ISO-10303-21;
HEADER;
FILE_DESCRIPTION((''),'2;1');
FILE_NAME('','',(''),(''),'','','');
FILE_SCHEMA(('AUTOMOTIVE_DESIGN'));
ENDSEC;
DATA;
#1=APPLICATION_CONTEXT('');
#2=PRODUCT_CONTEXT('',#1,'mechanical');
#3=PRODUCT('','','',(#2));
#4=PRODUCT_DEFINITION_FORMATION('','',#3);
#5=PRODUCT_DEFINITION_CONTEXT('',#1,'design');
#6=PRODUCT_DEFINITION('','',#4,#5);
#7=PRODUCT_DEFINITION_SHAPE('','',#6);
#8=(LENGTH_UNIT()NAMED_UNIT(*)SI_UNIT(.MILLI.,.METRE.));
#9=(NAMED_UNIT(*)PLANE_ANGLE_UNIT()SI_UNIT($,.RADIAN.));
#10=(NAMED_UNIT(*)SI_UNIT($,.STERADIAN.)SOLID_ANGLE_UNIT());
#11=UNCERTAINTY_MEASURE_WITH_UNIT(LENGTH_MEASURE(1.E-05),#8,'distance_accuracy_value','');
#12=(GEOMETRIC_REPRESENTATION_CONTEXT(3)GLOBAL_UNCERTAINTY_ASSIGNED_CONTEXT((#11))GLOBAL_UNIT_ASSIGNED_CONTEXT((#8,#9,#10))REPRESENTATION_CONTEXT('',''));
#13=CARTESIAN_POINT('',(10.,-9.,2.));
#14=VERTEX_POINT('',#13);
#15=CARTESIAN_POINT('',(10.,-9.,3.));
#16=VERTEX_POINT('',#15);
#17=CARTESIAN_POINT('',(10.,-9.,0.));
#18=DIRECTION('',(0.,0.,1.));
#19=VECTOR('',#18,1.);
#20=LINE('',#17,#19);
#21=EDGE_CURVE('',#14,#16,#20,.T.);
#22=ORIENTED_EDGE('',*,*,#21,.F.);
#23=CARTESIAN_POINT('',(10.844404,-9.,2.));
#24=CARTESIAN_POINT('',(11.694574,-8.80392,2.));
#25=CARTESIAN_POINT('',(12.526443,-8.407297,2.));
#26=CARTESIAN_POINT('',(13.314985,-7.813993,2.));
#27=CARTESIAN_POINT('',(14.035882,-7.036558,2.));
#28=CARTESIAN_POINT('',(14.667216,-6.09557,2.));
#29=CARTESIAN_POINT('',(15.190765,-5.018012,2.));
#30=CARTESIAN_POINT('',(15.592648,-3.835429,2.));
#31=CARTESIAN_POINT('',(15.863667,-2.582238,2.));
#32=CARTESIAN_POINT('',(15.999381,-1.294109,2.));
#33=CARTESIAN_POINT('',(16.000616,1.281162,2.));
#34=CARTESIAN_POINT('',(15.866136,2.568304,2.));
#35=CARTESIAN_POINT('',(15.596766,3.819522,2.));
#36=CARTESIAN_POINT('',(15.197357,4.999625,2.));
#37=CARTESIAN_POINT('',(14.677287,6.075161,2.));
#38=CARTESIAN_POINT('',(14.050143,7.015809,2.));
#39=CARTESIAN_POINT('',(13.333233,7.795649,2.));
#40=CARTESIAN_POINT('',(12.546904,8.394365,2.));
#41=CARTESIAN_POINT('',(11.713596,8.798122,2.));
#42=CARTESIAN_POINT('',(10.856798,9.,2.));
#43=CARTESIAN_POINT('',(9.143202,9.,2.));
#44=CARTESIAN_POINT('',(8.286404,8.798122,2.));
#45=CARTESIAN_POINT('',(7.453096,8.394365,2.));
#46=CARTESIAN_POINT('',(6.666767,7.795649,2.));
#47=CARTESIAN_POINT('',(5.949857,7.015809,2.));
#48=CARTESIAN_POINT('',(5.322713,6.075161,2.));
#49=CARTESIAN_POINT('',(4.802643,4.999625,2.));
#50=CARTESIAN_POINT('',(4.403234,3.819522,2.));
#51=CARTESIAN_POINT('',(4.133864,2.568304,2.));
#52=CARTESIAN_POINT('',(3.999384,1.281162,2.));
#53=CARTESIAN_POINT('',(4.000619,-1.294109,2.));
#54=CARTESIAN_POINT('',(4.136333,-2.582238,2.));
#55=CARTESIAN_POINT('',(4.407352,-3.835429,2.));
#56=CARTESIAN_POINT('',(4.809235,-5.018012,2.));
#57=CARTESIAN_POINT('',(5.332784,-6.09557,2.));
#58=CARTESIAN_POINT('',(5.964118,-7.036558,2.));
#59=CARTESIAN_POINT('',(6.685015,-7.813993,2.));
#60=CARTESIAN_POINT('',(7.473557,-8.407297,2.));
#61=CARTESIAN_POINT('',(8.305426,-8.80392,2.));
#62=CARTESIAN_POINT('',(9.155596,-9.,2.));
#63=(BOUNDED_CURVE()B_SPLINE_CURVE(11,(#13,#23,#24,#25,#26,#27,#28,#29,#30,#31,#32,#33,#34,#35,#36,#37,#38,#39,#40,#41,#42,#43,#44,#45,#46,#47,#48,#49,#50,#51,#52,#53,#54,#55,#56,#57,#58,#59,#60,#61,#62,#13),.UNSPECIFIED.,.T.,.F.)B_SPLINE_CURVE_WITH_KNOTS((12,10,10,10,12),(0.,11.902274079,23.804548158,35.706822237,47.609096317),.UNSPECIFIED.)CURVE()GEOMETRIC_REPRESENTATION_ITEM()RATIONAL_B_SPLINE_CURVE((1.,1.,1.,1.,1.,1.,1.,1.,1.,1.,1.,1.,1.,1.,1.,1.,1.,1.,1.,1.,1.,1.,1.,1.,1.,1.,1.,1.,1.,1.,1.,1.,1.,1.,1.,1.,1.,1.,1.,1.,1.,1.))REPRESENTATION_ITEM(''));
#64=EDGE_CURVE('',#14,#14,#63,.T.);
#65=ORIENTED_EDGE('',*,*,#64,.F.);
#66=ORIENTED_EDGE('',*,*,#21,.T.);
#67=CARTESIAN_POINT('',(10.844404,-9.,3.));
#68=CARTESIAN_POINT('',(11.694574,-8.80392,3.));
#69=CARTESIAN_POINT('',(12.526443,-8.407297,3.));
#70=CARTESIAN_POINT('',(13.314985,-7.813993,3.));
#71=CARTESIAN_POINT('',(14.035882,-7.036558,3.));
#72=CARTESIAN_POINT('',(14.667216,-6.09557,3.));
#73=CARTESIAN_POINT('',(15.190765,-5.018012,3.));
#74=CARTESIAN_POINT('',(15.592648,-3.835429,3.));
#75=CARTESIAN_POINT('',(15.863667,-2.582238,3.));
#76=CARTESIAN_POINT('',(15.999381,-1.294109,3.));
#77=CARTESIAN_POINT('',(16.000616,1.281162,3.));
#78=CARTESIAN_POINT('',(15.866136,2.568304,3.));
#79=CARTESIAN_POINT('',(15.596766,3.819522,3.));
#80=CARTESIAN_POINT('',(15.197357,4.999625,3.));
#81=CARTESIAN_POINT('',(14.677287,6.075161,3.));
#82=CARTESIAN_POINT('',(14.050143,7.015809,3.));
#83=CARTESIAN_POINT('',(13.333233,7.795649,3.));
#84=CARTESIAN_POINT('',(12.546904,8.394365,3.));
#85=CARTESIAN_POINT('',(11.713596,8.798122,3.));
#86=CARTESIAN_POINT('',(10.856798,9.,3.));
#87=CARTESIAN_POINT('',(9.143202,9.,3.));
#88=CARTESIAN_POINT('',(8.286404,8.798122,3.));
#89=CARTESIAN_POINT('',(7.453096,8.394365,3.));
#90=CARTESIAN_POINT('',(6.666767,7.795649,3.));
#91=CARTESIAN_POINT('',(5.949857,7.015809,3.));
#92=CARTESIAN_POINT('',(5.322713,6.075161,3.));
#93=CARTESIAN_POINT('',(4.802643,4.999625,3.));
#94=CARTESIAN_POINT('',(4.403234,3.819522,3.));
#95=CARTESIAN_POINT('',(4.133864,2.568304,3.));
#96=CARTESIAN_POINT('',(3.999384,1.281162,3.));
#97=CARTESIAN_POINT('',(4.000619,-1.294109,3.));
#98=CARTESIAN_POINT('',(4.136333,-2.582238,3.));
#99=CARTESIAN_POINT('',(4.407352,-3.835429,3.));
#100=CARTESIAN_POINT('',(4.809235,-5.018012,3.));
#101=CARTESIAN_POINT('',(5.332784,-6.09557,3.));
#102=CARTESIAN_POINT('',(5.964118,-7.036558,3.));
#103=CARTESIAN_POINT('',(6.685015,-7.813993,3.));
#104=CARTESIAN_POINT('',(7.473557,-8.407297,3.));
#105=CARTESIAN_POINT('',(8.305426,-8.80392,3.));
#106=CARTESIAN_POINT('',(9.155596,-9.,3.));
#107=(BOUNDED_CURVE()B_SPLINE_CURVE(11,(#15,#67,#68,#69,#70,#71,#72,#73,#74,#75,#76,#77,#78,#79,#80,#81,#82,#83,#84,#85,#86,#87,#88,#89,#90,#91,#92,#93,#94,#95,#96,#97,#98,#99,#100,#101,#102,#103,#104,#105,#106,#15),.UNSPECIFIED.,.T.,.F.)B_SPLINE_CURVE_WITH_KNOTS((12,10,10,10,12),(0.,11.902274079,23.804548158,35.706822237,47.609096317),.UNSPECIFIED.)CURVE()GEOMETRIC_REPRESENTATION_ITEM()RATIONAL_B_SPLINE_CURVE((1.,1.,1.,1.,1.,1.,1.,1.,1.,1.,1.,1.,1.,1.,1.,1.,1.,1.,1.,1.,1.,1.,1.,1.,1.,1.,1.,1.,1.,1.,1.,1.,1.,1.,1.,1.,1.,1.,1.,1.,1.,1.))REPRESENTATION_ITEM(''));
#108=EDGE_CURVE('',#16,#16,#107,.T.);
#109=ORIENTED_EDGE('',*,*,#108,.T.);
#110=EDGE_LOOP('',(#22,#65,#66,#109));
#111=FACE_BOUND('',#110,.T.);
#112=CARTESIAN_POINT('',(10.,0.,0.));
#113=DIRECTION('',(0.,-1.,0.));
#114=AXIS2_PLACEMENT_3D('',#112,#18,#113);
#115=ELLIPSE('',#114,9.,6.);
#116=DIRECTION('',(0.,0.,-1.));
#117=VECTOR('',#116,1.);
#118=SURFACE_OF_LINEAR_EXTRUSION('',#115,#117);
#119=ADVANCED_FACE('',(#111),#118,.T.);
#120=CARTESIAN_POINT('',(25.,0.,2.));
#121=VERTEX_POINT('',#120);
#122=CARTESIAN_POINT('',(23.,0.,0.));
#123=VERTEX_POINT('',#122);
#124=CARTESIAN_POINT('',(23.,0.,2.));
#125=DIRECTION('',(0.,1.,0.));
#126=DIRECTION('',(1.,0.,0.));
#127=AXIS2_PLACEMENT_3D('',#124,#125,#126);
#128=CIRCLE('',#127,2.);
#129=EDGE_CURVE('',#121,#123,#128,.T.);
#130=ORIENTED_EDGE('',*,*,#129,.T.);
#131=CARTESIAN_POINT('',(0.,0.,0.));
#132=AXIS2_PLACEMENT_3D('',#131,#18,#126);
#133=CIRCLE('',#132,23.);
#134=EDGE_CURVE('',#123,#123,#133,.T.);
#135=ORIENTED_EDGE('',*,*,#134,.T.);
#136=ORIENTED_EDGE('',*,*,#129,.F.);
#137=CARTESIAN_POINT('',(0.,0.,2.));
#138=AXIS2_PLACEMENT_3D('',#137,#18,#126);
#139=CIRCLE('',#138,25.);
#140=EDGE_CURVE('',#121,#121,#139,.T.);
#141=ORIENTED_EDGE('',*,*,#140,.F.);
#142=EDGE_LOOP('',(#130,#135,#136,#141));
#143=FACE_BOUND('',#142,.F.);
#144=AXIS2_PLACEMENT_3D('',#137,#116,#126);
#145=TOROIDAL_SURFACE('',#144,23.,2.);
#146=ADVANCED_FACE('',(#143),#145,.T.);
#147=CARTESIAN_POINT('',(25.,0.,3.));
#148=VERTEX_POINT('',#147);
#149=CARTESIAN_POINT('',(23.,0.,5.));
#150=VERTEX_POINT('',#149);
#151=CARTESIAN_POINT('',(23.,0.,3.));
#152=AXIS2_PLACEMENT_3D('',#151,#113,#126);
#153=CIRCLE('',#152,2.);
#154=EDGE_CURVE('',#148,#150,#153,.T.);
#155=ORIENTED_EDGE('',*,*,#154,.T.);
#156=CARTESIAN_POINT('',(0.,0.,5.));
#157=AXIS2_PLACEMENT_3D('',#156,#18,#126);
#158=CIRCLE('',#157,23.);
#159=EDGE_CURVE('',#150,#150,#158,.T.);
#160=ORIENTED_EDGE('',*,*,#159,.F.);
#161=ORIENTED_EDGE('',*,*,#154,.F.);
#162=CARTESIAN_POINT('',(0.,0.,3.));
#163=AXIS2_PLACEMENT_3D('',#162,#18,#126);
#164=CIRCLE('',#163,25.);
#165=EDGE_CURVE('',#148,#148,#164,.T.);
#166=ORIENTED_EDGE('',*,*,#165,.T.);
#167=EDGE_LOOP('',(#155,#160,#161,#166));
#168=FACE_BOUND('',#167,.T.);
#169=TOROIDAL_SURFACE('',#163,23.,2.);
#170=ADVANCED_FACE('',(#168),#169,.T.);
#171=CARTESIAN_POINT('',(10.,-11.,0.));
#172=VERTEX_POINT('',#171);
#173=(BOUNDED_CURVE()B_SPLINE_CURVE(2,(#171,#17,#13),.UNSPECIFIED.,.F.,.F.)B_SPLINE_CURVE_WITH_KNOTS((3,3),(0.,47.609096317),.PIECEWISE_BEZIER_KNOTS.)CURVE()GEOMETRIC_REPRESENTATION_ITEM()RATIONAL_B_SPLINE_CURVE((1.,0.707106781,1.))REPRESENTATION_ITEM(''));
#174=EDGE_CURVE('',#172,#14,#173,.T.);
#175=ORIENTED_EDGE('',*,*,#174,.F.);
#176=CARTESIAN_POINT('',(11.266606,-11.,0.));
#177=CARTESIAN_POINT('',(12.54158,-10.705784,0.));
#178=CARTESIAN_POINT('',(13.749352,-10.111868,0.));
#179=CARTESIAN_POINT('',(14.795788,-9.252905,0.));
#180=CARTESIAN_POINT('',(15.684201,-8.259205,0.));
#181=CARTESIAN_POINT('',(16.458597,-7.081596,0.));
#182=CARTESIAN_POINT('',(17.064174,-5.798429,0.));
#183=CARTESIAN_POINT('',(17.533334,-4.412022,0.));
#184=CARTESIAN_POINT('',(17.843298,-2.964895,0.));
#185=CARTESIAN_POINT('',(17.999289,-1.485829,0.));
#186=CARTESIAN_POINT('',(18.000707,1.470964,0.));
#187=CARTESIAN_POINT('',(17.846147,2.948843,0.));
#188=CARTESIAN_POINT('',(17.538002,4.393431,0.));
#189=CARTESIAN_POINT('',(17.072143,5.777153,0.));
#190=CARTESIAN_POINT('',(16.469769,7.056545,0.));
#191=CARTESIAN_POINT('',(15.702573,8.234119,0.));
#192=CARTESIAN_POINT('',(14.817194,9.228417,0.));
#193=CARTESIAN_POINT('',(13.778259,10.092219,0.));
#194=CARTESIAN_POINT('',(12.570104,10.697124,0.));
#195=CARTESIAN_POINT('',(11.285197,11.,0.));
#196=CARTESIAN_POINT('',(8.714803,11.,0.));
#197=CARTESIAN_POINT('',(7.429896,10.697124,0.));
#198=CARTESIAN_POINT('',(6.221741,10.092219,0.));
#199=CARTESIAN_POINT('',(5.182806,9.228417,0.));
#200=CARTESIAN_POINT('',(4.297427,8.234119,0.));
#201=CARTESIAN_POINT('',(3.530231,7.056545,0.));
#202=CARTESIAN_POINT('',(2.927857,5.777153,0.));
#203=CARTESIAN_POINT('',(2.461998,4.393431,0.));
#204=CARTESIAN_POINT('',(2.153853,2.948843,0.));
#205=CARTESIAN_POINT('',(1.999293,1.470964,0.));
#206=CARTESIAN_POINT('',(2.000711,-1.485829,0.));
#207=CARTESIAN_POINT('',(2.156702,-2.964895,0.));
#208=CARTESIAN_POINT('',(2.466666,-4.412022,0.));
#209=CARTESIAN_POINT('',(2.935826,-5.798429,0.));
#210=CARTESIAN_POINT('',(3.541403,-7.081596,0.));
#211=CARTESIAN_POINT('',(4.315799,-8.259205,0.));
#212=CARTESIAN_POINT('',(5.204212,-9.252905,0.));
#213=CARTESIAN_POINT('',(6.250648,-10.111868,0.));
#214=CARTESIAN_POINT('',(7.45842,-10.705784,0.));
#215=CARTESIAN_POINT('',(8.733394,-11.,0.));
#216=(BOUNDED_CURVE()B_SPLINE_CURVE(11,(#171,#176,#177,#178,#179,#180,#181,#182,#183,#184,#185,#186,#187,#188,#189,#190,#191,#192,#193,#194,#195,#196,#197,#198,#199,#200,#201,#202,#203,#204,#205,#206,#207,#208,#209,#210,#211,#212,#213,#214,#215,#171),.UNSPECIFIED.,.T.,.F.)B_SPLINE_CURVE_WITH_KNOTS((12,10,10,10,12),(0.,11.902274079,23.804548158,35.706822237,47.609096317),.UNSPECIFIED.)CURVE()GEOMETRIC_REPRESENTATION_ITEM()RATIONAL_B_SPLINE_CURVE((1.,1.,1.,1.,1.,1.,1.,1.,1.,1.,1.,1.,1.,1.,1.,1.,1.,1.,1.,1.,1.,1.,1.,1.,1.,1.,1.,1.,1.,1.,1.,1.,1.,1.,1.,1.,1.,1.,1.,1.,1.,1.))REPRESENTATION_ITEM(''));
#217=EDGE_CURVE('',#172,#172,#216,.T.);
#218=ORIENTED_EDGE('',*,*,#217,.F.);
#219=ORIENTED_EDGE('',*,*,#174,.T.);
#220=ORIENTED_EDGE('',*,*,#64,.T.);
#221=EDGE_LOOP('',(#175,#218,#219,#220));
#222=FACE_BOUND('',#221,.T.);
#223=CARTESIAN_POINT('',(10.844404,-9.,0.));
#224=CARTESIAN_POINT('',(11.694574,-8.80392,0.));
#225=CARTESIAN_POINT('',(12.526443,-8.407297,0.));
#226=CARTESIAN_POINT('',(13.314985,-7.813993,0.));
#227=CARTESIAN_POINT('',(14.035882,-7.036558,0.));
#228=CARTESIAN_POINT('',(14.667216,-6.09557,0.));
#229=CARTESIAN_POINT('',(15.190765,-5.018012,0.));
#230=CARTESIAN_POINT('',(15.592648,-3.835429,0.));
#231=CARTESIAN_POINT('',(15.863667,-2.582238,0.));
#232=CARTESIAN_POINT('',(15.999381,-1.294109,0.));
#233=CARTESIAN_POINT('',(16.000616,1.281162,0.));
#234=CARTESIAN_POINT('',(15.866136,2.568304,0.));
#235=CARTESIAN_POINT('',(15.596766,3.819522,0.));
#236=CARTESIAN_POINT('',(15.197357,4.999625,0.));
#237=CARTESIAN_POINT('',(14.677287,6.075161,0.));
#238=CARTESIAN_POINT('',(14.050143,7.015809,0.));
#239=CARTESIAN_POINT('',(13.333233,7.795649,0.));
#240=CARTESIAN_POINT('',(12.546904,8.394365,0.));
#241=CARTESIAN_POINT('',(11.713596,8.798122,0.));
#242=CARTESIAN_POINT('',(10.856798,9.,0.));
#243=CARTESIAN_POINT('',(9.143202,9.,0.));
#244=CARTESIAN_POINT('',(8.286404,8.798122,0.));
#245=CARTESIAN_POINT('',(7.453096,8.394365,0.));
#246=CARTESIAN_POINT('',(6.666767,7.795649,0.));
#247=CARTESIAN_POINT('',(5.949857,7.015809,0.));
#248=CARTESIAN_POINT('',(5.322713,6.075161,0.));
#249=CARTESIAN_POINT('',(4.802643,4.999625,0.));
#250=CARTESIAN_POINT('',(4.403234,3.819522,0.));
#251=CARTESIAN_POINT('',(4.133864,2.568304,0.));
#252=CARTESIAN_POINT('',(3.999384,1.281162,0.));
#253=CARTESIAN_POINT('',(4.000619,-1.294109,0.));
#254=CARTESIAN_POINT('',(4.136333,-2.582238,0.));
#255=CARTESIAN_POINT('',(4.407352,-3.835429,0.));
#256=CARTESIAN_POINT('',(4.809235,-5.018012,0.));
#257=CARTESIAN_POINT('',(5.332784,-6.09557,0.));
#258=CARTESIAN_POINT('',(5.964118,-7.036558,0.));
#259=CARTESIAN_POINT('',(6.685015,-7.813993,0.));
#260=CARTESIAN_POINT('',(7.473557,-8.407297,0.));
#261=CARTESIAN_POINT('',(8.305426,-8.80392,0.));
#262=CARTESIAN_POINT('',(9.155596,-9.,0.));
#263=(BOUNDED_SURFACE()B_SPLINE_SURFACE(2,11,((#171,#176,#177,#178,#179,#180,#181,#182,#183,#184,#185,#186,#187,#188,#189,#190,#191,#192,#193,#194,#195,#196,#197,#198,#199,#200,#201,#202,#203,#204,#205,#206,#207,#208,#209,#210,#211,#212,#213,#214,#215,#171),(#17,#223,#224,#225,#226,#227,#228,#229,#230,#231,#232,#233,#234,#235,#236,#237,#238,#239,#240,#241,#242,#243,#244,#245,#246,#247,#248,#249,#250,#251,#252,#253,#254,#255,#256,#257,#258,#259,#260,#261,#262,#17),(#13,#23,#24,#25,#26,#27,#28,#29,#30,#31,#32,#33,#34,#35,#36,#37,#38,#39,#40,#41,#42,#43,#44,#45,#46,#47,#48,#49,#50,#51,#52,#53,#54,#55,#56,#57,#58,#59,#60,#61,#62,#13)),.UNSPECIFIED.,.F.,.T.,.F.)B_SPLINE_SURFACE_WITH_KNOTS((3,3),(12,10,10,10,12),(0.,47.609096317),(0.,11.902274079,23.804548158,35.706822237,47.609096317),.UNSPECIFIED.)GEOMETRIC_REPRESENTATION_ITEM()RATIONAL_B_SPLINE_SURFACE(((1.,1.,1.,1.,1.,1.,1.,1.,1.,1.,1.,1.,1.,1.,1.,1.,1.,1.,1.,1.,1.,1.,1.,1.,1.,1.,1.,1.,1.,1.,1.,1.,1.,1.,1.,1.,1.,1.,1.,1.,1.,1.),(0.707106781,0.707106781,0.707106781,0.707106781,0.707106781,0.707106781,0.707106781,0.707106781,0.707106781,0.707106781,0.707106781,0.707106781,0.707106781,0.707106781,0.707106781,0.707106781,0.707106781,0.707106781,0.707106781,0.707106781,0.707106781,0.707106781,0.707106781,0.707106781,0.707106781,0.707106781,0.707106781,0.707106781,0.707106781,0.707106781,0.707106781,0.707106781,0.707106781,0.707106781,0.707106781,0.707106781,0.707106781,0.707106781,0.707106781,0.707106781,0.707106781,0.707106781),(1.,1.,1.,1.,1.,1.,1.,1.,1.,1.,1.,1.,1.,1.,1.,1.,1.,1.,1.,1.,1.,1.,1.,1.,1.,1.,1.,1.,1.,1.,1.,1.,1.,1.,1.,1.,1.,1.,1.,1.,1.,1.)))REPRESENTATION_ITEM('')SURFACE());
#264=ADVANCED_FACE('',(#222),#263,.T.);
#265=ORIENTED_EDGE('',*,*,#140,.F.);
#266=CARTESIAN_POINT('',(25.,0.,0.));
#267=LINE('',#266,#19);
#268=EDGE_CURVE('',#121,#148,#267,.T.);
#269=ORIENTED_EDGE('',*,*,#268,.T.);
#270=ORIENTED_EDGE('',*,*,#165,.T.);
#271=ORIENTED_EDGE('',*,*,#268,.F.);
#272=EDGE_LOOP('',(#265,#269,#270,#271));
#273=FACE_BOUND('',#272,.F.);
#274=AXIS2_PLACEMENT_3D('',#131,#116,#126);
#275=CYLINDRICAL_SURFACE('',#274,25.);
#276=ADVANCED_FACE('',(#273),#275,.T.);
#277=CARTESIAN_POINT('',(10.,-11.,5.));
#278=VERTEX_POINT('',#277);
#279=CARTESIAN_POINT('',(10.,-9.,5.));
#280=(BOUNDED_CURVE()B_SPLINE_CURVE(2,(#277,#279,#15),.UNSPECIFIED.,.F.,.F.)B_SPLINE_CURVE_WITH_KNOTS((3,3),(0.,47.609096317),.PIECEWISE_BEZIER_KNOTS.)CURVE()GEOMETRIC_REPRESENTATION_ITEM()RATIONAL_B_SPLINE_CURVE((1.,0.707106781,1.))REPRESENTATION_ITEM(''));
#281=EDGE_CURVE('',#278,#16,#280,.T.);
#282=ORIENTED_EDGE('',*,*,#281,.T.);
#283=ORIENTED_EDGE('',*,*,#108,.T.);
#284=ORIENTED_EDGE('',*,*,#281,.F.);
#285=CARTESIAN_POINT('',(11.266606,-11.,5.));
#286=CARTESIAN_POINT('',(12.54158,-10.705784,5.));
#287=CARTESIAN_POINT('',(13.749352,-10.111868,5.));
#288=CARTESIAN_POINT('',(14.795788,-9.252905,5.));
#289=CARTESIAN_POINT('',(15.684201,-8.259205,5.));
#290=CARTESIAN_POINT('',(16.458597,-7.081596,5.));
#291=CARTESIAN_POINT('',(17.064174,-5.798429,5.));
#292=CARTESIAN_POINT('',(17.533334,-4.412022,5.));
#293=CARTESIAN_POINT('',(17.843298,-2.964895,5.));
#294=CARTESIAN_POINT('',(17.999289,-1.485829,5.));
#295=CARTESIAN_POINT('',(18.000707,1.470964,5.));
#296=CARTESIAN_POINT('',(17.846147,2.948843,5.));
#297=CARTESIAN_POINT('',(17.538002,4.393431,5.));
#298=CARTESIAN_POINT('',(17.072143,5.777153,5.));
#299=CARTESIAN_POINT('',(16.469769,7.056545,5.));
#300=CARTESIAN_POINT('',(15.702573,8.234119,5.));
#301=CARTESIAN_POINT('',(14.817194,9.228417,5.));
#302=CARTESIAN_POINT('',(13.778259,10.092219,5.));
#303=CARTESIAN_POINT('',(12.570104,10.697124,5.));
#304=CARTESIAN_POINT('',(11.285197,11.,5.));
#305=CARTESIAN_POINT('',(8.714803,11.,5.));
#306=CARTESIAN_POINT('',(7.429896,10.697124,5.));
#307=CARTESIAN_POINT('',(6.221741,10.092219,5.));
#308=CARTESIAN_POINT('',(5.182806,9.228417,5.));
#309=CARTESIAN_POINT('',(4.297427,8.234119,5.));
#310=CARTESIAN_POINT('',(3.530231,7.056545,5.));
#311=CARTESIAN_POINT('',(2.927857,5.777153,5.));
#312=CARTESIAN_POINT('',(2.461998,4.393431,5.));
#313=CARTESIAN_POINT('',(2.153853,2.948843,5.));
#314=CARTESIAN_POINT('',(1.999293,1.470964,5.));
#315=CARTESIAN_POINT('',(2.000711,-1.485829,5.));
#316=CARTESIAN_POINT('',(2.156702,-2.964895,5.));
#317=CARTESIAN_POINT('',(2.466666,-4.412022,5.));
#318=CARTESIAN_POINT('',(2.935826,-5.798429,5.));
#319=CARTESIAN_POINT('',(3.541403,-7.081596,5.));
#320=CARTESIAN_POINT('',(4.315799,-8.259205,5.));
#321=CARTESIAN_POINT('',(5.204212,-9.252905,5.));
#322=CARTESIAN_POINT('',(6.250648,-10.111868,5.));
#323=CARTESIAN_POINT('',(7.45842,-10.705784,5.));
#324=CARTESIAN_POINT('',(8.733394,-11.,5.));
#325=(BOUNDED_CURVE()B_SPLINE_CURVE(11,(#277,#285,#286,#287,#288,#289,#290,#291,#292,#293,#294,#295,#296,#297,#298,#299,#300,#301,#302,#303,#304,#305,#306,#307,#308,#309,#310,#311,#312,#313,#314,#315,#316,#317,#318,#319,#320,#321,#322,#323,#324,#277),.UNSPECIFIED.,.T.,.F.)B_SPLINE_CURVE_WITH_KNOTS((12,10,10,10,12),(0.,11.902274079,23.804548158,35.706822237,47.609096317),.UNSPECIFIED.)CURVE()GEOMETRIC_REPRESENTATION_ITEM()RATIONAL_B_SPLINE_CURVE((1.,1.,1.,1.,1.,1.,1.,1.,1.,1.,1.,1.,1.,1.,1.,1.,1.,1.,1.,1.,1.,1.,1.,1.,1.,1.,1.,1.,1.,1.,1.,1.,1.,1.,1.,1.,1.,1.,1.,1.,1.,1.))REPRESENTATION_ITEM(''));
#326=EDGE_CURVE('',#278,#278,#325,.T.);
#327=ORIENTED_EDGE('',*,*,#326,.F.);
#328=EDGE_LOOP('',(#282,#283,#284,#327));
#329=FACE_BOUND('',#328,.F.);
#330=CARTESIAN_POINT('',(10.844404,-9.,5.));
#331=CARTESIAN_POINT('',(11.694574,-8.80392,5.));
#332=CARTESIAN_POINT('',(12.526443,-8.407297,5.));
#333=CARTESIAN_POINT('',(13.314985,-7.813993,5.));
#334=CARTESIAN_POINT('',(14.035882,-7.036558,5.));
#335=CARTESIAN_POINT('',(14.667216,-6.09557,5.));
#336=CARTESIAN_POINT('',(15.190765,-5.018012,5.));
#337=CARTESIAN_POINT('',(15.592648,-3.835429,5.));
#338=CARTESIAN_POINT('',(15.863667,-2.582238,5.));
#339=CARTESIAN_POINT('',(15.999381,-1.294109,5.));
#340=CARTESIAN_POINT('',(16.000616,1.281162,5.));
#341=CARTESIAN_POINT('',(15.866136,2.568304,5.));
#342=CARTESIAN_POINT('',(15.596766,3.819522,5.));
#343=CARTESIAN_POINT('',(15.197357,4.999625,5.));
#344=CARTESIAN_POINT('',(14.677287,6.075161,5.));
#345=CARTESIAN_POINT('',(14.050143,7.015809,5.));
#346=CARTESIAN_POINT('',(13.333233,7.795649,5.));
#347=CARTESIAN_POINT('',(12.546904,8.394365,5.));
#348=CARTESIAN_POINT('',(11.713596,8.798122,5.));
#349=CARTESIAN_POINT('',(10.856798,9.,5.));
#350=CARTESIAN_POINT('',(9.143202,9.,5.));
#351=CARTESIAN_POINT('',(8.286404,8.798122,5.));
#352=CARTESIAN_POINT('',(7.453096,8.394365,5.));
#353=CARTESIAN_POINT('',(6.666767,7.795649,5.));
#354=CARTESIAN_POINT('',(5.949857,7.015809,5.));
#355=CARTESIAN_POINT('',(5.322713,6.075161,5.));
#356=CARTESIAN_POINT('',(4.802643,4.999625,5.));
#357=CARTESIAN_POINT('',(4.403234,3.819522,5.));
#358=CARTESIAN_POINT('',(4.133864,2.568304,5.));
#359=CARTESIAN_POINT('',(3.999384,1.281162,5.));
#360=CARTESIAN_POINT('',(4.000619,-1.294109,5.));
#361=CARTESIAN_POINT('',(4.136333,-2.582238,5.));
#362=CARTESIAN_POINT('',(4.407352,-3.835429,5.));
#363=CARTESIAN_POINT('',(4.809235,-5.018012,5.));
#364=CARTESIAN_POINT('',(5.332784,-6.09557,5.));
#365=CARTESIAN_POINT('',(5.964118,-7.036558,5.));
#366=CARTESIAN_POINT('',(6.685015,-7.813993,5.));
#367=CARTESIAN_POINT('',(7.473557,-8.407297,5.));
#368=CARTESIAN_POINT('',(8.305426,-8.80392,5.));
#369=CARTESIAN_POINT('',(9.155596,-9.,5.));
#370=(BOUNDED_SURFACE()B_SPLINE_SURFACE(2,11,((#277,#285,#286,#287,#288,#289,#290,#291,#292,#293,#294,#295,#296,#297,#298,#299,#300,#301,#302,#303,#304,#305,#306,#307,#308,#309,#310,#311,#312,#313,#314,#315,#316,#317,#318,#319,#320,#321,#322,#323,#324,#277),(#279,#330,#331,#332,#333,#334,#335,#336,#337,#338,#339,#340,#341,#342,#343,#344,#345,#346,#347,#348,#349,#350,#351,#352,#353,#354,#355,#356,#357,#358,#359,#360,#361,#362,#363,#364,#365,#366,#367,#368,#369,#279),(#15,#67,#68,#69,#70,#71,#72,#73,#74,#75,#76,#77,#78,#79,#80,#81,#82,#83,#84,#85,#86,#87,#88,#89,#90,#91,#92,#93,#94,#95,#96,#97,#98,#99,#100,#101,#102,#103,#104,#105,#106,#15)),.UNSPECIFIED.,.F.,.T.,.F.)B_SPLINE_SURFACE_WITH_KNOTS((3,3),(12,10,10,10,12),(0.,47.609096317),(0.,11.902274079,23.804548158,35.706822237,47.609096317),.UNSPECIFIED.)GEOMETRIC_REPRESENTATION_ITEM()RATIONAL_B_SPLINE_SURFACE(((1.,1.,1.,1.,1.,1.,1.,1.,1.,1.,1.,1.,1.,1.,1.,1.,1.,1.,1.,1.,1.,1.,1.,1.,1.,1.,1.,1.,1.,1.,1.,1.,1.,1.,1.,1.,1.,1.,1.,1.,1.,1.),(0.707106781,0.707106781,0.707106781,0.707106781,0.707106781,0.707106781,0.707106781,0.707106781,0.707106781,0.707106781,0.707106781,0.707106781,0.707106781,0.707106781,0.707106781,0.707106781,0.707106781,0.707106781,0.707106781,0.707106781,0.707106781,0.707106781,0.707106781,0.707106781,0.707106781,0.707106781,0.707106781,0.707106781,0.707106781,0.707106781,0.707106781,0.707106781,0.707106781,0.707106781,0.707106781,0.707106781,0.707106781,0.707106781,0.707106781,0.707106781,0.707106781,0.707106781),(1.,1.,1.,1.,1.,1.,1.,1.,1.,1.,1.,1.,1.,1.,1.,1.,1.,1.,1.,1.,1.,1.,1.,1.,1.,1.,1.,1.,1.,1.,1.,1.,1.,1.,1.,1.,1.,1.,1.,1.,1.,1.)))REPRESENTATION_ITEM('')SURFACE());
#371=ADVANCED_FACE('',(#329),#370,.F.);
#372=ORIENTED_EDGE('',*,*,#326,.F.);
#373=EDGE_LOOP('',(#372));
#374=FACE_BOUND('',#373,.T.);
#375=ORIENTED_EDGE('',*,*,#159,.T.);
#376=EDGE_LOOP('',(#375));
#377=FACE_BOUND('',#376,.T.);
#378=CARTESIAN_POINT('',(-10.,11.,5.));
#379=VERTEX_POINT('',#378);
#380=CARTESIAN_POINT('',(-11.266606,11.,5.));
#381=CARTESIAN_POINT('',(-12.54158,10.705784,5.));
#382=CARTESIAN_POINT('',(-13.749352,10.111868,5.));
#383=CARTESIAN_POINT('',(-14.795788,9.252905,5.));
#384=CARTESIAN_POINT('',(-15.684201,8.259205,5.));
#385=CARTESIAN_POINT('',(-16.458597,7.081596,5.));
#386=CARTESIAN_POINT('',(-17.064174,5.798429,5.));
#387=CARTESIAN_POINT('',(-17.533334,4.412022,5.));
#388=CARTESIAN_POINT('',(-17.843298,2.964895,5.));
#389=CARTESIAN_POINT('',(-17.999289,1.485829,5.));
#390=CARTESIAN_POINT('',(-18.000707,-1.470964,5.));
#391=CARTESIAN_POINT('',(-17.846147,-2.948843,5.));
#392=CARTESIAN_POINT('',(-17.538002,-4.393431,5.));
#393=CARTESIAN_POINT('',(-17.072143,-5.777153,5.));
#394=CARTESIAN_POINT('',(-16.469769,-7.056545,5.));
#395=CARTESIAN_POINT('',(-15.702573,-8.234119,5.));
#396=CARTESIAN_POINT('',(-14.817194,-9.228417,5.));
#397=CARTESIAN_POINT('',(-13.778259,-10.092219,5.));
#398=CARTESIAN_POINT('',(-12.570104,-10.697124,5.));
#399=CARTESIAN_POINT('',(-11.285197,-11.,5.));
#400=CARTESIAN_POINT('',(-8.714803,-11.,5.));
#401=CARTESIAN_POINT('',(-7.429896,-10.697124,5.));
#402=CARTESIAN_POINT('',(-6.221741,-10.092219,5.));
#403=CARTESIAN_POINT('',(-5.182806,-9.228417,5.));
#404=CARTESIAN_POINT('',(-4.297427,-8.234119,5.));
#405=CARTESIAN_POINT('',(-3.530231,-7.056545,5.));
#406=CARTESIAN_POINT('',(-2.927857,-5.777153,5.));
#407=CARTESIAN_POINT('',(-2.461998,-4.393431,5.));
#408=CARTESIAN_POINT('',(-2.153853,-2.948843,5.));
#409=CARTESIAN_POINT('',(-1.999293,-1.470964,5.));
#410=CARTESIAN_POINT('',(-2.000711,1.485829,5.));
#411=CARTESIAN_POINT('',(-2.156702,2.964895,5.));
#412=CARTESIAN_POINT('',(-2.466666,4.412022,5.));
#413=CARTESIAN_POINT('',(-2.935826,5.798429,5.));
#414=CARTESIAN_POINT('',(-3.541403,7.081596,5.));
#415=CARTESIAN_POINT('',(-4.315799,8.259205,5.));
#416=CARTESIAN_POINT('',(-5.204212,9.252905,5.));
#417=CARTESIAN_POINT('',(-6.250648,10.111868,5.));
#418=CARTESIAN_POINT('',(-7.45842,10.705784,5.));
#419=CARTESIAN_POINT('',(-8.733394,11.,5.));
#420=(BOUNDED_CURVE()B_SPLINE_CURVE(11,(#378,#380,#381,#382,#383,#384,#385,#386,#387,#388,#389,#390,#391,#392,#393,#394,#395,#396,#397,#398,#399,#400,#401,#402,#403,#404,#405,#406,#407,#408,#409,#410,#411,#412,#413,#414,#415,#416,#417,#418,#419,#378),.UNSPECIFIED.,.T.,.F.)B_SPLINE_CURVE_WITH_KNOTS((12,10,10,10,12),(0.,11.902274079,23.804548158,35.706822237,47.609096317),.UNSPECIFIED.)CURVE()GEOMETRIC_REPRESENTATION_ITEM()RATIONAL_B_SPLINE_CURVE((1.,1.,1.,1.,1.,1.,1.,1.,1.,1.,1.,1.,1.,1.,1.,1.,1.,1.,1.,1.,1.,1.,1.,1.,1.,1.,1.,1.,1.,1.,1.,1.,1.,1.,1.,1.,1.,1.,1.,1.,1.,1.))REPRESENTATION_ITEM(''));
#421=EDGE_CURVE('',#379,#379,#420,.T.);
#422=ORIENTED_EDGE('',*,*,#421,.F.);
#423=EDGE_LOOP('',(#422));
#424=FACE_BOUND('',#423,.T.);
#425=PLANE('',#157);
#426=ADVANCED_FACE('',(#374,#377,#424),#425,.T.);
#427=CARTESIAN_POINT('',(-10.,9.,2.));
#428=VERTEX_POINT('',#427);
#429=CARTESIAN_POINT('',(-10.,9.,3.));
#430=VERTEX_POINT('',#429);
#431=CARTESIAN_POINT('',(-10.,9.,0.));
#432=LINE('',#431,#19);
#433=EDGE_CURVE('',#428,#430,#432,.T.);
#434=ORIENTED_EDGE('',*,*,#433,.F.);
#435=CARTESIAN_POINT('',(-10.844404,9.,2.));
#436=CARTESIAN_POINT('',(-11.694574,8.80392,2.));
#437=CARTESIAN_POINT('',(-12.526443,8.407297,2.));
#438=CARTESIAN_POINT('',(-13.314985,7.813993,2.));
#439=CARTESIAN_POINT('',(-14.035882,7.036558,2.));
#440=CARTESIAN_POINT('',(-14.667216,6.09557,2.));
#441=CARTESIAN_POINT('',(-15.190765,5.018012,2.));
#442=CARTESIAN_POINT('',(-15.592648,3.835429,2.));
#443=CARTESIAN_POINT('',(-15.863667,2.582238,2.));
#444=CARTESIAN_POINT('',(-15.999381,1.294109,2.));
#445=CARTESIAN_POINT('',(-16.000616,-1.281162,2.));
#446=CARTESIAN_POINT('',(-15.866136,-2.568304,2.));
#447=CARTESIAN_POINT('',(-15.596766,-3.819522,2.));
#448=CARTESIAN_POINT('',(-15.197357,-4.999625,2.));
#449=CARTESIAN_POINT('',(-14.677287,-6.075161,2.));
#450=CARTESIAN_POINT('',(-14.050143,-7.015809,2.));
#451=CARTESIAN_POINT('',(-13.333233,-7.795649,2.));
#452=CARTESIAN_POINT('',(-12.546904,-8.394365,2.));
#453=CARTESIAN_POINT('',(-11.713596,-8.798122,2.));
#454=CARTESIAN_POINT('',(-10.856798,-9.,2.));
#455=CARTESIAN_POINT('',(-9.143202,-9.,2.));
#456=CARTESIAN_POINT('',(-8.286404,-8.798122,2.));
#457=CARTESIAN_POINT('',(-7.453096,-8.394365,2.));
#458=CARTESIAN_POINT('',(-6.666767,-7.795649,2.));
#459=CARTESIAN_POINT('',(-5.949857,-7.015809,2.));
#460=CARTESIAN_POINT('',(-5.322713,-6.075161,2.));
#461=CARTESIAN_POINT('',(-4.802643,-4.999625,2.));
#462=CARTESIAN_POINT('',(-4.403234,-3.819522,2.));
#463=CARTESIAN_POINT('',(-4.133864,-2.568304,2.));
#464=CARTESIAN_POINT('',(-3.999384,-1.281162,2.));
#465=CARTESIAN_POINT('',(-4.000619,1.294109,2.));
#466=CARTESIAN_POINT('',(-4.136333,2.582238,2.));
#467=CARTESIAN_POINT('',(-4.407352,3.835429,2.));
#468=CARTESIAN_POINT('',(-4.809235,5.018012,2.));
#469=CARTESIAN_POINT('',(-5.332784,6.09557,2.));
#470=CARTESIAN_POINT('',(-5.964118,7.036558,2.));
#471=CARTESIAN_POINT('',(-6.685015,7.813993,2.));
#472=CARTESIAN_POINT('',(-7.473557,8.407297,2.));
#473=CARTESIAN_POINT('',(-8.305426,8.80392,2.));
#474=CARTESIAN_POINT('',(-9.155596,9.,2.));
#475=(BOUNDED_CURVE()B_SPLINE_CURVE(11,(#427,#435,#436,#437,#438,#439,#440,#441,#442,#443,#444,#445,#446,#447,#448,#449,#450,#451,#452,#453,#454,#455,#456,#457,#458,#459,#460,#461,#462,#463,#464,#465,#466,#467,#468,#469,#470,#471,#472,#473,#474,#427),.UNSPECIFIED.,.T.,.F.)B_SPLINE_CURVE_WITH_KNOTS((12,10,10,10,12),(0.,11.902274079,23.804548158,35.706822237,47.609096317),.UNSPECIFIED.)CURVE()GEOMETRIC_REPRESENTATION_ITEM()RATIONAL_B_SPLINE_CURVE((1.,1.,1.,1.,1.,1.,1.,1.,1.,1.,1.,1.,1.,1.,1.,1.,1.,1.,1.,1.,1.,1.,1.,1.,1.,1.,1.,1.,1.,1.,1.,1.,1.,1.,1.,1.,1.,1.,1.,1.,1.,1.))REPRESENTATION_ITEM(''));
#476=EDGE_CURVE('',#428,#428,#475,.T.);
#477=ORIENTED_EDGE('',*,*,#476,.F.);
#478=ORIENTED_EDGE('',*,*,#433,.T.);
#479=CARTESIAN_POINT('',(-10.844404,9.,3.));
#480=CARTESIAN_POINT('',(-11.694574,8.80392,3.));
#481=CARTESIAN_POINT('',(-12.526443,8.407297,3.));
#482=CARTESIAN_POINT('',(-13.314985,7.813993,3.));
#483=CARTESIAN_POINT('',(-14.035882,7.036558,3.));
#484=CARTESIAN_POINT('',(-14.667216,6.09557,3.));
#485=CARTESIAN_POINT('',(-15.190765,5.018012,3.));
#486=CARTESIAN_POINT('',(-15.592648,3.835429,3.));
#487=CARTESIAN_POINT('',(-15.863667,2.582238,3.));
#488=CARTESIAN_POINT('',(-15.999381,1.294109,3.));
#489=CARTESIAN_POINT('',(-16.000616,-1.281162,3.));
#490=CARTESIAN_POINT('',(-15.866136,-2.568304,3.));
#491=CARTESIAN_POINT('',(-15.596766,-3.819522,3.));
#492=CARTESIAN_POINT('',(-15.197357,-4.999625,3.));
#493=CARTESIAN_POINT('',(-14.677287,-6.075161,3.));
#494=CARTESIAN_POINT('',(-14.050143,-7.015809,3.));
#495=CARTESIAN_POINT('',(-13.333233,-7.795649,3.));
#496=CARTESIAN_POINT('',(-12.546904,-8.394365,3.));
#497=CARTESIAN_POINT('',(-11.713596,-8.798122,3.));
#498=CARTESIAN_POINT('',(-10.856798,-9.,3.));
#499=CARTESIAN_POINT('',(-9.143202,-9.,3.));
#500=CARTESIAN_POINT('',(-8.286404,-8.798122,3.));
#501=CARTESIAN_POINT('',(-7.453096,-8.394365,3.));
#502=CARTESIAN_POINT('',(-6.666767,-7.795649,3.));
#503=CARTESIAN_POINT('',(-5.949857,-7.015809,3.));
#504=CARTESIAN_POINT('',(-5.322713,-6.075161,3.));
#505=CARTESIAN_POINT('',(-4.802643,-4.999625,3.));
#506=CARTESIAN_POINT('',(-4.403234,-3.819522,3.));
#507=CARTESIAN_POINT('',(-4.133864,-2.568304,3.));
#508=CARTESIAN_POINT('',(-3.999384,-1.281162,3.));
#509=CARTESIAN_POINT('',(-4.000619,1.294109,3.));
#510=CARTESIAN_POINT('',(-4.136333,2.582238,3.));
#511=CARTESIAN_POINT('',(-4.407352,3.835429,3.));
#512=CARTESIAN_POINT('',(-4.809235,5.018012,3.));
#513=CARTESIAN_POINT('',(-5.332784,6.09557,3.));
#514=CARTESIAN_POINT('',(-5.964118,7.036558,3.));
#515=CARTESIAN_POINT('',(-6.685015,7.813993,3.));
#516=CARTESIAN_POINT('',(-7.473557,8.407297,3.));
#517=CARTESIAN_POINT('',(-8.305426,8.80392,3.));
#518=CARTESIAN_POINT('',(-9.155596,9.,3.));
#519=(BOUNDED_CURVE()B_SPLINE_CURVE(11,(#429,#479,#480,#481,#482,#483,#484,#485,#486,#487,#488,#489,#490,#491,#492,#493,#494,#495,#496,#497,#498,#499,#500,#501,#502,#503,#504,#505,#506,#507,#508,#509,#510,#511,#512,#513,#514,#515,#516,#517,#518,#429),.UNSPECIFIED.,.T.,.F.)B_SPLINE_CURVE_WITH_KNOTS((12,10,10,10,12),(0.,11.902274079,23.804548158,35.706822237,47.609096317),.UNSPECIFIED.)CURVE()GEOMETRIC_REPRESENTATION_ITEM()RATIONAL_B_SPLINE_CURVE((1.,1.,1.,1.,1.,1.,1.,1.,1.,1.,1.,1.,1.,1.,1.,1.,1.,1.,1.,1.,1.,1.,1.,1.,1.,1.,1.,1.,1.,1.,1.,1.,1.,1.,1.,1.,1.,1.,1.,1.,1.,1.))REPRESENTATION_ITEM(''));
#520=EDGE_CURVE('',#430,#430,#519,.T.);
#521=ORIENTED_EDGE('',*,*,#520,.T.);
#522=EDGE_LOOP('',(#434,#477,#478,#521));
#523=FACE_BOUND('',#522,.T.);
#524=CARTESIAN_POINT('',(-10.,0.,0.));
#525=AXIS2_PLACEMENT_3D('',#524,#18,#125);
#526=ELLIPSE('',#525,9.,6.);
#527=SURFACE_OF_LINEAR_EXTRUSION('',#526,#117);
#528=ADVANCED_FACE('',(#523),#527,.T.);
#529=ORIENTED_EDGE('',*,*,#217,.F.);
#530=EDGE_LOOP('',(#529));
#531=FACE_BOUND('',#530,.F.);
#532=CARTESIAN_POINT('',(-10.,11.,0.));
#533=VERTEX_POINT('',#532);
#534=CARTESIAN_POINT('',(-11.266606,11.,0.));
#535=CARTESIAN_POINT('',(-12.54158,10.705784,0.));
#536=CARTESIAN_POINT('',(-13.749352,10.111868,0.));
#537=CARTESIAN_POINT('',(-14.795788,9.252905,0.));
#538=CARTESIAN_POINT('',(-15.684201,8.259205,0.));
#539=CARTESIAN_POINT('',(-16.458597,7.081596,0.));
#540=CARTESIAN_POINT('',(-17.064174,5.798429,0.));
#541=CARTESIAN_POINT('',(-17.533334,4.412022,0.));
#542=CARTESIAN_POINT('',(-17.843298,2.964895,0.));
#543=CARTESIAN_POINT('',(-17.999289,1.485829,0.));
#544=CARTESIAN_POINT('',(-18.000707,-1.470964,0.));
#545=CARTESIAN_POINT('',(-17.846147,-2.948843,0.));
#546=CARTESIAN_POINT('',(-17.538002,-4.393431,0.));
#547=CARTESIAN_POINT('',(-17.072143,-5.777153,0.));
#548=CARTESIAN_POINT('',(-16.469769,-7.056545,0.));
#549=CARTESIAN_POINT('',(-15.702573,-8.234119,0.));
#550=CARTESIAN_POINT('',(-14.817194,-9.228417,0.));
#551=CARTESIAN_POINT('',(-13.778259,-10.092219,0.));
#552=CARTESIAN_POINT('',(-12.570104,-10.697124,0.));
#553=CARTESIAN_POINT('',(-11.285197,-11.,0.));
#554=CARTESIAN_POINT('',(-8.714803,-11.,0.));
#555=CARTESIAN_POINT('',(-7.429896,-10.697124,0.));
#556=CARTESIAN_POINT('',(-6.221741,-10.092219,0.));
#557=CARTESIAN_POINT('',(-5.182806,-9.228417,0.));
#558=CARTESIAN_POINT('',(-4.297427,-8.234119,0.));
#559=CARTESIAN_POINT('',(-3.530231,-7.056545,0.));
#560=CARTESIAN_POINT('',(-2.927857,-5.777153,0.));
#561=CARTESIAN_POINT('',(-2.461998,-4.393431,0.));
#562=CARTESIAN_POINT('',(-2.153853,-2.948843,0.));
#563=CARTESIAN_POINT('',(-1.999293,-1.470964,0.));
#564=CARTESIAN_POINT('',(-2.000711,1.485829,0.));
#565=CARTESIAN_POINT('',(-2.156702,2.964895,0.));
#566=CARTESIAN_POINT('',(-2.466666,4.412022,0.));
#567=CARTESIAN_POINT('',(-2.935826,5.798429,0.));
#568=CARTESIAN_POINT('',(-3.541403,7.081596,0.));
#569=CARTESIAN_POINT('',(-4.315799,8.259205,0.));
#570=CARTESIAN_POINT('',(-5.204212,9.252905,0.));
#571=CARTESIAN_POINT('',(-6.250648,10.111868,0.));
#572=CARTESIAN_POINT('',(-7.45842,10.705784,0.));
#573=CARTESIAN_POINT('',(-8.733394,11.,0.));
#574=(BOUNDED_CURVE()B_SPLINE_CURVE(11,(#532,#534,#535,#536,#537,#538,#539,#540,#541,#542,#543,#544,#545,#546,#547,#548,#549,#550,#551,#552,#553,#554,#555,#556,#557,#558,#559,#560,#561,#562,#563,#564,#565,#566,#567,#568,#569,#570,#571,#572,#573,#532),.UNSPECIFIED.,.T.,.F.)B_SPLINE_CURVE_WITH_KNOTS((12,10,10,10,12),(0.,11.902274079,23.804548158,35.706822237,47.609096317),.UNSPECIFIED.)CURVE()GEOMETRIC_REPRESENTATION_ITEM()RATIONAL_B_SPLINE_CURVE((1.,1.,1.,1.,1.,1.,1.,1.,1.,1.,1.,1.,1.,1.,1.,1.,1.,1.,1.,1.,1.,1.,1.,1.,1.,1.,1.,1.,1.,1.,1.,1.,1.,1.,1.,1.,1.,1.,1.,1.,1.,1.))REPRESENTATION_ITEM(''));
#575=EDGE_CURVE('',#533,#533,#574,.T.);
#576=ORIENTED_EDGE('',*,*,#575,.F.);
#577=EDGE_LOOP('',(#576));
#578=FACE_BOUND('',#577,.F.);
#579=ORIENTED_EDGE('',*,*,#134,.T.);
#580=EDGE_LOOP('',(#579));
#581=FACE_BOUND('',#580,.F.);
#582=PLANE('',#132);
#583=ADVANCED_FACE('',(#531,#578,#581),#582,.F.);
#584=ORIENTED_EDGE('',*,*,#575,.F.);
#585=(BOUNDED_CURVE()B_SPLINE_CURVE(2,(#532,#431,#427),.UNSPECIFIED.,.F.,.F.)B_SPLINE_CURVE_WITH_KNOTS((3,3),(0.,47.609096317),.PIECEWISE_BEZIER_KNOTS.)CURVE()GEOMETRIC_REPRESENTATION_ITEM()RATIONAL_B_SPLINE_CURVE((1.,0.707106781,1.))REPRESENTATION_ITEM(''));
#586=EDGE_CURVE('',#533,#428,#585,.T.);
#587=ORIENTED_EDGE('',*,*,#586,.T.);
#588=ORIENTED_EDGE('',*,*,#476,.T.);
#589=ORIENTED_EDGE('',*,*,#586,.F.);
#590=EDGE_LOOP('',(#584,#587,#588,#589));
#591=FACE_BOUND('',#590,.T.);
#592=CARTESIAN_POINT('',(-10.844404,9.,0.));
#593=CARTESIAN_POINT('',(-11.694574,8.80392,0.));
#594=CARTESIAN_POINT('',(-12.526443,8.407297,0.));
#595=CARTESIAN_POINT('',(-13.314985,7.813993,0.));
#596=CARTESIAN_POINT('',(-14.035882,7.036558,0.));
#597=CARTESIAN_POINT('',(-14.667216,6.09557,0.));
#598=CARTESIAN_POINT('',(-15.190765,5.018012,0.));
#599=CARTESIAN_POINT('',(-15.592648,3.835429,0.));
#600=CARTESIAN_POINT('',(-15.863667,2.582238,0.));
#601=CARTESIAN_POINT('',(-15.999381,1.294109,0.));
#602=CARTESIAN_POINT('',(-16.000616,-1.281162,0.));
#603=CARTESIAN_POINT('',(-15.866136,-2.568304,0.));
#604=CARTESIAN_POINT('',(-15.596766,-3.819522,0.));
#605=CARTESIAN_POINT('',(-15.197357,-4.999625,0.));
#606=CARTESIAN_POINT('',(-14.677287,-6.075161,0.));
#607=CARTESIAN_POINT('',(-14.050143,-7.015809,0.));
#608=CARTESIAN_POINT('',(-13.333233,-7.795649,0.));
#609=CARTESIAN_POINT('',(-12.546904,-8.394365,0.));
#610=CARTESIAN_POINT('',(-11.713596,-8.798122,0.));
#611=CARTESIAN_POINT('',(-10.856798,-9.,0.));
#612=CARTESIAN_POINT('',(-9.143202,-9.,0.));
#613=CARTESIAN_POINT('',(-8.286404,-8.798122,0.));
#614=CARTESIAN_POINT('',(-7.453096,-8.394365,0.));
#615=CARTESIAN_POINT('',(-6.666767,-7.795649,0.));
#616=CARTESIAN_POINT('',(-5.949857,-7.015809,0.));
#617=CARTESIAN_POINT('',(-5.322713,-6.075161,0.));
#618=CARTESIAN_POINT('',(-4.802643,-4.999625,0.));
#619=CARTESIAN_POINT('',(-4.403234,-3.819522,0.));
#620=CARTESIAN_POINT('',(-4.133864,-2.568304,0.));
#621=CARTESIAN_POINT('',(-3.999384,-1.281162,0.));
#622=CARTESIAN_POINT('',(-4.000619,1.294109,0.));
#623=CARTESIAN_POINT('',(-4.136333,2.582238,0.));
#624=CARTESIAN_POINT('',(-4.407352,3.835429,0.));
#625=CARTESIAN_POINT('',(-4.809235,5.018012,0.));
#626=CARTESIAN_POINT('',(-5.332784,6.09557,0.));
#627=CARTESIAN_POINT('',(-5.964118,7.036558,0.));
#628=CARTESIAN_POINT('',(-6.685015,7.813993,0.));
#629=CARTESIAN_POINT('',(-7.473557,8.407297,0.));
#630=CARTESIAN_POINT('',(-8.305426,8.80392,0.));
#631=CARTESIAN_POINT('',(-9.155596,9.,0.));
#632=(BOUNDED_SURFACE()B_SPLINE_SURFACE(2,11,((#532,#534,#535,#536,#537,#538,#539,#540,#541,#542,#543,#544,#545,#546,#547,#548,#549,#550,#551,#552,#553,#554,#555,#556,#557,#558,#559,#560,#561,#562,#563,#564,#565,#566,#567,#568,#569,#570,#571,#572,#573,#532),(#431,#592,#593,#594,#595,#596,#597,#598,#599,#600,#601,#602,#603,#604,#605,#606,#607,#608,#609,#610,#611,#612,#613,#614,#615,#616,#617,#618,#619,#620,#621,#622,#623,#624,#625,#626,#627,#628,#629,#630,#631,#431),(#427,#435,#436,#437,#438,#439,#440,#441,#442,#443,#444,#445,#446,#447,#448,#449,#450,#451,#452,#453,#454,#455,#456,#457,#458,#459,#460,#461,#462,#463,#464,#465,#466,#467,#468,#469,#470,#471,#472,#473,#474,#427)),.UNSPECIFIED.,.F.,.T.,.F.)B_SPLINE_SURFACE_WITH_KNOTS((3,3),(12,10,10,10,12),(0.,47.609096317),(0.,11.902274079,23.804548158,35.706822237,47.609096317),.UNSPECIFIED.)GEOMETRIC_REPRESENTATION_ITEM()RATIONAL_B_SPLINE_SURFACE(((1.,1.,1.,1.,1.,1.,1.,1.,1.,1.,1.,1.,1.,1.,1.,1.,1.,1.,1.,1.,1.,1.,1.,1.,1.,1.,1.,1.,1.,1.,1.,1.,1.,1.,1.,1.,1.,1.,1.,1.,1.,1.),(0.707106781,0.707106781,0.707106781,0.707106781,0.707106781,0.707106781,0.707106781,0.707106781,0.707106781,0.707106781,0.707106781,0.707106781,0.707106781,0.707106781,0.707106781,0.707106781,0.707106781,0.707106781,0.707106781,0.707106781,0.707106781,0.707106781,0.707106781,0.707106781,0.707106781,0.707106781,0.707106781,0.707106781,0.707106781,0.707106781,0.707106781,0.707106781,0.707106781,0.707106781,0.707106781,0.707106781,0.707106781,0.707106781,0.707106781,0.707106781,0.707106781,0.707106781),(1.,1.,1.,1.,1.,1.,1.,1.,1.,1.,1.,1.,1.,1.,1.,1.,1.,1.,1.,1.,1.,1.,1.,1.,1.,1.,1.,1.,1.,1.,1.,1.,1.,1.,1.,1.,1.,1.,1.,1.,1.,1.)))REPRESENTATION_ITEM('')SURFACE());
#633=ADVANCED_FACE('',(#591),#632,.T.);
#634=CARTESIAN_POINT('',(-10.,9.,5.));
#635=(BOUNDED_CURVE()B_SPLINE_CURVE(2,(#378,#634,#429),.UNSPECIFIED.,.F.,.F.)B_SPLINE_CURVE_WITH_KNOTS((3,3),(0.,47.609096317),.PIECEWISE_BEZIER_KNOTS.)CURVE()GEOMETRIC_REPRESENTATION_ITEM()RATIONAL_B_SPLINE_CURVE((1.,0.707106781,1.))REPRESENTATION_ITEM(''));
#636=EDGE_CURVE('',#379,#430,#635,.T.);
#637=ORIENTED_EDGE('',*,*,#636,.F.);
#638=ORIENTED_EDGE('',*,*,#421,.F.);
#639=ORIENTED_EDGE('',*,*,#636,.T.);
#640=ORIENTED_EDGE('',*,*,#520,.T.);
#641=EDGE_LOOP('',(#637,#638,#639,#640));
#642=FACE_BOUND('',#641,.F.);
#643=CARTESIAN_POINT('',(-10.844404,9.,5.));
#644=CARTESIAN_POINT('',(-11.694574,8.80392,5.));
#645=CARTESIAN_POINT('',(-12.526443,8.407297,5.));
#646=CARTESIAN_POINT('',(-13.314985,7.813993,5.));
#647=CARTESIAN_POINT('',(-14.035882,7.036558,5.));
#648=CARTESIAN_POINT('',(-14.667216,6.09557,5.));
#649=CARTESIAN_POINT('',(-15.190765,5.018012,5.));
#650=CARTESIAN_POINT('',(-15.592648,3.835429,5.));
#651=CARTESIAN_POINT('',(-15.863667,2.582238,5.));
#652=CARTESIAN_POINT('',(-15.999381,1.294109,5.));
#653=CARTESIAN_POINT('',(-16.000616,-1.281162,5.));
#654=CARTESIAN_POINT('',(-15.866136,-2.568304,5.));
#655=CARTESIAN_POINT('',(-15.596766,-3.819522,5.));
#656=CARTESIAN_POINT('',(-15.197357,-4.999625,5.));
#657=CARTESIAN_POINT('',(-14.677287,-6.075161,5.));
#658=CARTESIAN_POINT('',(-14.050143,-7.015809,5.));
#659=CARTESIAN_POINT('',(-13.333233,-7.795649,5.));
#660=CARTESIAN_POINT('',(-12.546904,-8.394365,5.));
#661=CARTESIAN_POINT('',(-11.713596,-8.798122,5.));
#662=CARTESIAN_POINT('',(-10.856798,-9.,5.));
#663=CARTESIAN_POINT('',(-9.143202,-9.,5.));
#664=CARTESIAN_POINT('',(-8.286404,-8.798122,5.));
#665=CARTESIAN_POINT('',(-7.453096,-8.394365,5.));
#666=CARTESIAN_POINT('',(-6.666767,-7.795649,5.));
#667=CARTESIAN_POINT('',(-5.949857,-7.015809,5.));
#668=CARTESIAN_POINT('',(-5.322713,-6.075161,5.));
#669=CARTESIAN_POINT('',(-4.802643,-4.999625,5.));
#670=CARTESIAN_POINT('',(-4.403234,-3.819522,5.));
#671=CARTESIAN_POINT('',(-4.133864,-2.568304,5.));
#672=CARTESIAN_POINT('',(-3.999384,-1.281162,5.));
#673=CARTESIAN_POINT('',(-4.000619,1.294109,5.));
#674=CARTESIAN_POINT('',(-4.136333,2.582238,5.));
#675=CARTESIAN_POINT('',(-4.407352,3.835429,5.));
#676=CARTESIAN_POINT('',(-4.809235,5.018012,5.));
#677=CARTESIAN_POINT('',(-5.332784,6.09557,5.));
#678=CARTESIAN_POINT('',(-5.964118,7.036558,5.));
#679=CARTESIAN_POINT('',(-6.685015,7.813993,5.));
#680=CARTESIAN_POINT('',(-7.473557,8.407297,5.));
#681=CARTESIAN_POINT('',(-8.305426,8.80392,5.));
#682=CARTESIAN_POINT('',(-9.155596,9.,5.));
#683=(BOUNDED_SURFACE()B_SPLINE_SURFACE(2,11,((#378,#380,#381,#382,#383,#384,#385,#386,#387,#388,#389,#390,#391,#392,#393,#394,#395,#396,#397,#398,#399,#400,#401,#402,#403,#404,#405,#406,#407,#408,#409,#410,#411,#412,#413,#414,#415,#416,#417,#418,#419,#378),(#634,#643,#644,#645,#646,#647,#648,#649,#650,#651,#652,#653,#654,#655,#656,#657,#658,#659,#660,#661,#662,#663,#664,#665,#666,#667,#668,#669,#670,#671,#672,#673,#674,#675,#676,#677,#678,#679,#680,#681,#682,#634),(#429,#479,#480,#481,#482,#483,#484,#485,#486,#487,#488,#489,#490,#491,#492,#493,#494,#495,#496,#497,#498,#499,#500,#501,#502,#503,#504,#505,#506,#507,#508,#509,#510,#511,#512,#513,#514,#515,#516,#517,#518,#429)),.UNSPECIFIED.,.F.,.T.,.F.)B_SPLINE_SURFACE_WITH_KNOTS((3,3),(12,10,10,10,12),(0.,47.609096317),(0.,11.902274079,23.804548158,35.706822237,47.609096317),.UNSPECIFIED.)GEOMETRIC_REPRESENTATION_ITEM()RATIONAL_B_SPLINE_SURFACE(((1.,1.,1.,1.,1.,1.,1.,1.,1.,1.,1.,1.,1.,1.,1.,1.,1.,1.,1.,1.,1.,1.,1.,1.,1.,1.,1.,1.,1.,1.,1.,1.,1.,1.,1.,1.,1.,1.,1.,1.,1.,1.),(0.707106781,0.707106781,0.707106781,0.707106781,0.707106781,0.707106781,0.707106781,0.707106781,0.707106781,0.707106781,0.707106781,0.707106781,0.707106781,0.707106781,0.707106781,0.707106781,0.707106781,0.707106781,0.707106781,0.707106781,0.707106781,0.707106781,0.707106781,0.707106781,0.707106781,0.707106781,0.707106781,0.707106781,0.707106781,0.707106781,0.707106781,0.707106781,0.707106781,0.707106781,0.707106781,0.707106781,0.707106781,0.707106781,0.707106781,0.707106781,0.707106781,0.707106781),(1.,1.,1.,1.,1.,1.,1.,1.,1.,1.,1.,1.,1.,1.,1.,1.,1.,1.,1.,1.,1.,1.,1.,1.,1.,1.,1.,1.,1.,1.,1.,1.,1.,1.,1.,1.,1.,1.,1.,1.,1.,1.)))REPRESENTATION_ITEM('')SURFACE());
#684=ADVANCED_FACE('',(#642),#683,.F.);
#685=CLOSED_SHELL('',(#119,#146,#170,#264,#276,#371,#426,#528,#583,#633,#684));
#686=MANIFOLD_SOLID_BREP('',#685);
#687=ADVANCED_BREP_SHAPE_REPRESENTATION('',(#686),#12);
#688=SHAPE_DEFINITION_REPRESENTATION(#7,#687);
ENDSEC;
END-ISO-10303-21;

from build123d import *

# Parameters (mm, degrees)
SKETCH1_R           = 25
SKETCH1_RX          = 9
SKETCH1_RY          = 6
BOSS_EXTRUDE1_DEPTH = 5
FILLET1_R           = 2
FILLET2_R           = 2


with BuildPart() as part:
    # Sketch1 → Boss-Extrude1 (new body)
    with BuildSketch(Plane.XY):
        Circle(SKETCH1_R)
        with Locations(Location((10, 0), (0, 0, -90))):
            Ellipse(SKETCH1_RX, SKETCH1_RY, mode=Mode.SUBTRACT)
        with Locations(Location((-10, 0), (0, 0, 90))):
            Ellipse(SKETCH1_RX, SKETCH1_RY, mode=Mode.SUBTRACT)
    extrude(amount=BOSS_EXTRUDE1_DEPTH)

    # Fillet1
    fillet1_edges = [part.edges().sort_by_distance(p)[0] for p in [
        (-25, 0, 0),
        (-25, 0, 5),
    ]]
    fillet(fillet1_edges, radius=FILLET1_R)

    # Fillet2
    fillet2_edges = [part.edges().sort_by_distance(p)[0] for p in [
        (9.99361132, 8.999994898, 0),
        (9.99361132, 8.999994898, 5),
        (-9.99361132, -8.999994898, 0),
        (-9.99361132, -8.999994898, 5),
    ]]
    fillet(fillet2_edges, radius=FILLET2_R)


solid = part.part
